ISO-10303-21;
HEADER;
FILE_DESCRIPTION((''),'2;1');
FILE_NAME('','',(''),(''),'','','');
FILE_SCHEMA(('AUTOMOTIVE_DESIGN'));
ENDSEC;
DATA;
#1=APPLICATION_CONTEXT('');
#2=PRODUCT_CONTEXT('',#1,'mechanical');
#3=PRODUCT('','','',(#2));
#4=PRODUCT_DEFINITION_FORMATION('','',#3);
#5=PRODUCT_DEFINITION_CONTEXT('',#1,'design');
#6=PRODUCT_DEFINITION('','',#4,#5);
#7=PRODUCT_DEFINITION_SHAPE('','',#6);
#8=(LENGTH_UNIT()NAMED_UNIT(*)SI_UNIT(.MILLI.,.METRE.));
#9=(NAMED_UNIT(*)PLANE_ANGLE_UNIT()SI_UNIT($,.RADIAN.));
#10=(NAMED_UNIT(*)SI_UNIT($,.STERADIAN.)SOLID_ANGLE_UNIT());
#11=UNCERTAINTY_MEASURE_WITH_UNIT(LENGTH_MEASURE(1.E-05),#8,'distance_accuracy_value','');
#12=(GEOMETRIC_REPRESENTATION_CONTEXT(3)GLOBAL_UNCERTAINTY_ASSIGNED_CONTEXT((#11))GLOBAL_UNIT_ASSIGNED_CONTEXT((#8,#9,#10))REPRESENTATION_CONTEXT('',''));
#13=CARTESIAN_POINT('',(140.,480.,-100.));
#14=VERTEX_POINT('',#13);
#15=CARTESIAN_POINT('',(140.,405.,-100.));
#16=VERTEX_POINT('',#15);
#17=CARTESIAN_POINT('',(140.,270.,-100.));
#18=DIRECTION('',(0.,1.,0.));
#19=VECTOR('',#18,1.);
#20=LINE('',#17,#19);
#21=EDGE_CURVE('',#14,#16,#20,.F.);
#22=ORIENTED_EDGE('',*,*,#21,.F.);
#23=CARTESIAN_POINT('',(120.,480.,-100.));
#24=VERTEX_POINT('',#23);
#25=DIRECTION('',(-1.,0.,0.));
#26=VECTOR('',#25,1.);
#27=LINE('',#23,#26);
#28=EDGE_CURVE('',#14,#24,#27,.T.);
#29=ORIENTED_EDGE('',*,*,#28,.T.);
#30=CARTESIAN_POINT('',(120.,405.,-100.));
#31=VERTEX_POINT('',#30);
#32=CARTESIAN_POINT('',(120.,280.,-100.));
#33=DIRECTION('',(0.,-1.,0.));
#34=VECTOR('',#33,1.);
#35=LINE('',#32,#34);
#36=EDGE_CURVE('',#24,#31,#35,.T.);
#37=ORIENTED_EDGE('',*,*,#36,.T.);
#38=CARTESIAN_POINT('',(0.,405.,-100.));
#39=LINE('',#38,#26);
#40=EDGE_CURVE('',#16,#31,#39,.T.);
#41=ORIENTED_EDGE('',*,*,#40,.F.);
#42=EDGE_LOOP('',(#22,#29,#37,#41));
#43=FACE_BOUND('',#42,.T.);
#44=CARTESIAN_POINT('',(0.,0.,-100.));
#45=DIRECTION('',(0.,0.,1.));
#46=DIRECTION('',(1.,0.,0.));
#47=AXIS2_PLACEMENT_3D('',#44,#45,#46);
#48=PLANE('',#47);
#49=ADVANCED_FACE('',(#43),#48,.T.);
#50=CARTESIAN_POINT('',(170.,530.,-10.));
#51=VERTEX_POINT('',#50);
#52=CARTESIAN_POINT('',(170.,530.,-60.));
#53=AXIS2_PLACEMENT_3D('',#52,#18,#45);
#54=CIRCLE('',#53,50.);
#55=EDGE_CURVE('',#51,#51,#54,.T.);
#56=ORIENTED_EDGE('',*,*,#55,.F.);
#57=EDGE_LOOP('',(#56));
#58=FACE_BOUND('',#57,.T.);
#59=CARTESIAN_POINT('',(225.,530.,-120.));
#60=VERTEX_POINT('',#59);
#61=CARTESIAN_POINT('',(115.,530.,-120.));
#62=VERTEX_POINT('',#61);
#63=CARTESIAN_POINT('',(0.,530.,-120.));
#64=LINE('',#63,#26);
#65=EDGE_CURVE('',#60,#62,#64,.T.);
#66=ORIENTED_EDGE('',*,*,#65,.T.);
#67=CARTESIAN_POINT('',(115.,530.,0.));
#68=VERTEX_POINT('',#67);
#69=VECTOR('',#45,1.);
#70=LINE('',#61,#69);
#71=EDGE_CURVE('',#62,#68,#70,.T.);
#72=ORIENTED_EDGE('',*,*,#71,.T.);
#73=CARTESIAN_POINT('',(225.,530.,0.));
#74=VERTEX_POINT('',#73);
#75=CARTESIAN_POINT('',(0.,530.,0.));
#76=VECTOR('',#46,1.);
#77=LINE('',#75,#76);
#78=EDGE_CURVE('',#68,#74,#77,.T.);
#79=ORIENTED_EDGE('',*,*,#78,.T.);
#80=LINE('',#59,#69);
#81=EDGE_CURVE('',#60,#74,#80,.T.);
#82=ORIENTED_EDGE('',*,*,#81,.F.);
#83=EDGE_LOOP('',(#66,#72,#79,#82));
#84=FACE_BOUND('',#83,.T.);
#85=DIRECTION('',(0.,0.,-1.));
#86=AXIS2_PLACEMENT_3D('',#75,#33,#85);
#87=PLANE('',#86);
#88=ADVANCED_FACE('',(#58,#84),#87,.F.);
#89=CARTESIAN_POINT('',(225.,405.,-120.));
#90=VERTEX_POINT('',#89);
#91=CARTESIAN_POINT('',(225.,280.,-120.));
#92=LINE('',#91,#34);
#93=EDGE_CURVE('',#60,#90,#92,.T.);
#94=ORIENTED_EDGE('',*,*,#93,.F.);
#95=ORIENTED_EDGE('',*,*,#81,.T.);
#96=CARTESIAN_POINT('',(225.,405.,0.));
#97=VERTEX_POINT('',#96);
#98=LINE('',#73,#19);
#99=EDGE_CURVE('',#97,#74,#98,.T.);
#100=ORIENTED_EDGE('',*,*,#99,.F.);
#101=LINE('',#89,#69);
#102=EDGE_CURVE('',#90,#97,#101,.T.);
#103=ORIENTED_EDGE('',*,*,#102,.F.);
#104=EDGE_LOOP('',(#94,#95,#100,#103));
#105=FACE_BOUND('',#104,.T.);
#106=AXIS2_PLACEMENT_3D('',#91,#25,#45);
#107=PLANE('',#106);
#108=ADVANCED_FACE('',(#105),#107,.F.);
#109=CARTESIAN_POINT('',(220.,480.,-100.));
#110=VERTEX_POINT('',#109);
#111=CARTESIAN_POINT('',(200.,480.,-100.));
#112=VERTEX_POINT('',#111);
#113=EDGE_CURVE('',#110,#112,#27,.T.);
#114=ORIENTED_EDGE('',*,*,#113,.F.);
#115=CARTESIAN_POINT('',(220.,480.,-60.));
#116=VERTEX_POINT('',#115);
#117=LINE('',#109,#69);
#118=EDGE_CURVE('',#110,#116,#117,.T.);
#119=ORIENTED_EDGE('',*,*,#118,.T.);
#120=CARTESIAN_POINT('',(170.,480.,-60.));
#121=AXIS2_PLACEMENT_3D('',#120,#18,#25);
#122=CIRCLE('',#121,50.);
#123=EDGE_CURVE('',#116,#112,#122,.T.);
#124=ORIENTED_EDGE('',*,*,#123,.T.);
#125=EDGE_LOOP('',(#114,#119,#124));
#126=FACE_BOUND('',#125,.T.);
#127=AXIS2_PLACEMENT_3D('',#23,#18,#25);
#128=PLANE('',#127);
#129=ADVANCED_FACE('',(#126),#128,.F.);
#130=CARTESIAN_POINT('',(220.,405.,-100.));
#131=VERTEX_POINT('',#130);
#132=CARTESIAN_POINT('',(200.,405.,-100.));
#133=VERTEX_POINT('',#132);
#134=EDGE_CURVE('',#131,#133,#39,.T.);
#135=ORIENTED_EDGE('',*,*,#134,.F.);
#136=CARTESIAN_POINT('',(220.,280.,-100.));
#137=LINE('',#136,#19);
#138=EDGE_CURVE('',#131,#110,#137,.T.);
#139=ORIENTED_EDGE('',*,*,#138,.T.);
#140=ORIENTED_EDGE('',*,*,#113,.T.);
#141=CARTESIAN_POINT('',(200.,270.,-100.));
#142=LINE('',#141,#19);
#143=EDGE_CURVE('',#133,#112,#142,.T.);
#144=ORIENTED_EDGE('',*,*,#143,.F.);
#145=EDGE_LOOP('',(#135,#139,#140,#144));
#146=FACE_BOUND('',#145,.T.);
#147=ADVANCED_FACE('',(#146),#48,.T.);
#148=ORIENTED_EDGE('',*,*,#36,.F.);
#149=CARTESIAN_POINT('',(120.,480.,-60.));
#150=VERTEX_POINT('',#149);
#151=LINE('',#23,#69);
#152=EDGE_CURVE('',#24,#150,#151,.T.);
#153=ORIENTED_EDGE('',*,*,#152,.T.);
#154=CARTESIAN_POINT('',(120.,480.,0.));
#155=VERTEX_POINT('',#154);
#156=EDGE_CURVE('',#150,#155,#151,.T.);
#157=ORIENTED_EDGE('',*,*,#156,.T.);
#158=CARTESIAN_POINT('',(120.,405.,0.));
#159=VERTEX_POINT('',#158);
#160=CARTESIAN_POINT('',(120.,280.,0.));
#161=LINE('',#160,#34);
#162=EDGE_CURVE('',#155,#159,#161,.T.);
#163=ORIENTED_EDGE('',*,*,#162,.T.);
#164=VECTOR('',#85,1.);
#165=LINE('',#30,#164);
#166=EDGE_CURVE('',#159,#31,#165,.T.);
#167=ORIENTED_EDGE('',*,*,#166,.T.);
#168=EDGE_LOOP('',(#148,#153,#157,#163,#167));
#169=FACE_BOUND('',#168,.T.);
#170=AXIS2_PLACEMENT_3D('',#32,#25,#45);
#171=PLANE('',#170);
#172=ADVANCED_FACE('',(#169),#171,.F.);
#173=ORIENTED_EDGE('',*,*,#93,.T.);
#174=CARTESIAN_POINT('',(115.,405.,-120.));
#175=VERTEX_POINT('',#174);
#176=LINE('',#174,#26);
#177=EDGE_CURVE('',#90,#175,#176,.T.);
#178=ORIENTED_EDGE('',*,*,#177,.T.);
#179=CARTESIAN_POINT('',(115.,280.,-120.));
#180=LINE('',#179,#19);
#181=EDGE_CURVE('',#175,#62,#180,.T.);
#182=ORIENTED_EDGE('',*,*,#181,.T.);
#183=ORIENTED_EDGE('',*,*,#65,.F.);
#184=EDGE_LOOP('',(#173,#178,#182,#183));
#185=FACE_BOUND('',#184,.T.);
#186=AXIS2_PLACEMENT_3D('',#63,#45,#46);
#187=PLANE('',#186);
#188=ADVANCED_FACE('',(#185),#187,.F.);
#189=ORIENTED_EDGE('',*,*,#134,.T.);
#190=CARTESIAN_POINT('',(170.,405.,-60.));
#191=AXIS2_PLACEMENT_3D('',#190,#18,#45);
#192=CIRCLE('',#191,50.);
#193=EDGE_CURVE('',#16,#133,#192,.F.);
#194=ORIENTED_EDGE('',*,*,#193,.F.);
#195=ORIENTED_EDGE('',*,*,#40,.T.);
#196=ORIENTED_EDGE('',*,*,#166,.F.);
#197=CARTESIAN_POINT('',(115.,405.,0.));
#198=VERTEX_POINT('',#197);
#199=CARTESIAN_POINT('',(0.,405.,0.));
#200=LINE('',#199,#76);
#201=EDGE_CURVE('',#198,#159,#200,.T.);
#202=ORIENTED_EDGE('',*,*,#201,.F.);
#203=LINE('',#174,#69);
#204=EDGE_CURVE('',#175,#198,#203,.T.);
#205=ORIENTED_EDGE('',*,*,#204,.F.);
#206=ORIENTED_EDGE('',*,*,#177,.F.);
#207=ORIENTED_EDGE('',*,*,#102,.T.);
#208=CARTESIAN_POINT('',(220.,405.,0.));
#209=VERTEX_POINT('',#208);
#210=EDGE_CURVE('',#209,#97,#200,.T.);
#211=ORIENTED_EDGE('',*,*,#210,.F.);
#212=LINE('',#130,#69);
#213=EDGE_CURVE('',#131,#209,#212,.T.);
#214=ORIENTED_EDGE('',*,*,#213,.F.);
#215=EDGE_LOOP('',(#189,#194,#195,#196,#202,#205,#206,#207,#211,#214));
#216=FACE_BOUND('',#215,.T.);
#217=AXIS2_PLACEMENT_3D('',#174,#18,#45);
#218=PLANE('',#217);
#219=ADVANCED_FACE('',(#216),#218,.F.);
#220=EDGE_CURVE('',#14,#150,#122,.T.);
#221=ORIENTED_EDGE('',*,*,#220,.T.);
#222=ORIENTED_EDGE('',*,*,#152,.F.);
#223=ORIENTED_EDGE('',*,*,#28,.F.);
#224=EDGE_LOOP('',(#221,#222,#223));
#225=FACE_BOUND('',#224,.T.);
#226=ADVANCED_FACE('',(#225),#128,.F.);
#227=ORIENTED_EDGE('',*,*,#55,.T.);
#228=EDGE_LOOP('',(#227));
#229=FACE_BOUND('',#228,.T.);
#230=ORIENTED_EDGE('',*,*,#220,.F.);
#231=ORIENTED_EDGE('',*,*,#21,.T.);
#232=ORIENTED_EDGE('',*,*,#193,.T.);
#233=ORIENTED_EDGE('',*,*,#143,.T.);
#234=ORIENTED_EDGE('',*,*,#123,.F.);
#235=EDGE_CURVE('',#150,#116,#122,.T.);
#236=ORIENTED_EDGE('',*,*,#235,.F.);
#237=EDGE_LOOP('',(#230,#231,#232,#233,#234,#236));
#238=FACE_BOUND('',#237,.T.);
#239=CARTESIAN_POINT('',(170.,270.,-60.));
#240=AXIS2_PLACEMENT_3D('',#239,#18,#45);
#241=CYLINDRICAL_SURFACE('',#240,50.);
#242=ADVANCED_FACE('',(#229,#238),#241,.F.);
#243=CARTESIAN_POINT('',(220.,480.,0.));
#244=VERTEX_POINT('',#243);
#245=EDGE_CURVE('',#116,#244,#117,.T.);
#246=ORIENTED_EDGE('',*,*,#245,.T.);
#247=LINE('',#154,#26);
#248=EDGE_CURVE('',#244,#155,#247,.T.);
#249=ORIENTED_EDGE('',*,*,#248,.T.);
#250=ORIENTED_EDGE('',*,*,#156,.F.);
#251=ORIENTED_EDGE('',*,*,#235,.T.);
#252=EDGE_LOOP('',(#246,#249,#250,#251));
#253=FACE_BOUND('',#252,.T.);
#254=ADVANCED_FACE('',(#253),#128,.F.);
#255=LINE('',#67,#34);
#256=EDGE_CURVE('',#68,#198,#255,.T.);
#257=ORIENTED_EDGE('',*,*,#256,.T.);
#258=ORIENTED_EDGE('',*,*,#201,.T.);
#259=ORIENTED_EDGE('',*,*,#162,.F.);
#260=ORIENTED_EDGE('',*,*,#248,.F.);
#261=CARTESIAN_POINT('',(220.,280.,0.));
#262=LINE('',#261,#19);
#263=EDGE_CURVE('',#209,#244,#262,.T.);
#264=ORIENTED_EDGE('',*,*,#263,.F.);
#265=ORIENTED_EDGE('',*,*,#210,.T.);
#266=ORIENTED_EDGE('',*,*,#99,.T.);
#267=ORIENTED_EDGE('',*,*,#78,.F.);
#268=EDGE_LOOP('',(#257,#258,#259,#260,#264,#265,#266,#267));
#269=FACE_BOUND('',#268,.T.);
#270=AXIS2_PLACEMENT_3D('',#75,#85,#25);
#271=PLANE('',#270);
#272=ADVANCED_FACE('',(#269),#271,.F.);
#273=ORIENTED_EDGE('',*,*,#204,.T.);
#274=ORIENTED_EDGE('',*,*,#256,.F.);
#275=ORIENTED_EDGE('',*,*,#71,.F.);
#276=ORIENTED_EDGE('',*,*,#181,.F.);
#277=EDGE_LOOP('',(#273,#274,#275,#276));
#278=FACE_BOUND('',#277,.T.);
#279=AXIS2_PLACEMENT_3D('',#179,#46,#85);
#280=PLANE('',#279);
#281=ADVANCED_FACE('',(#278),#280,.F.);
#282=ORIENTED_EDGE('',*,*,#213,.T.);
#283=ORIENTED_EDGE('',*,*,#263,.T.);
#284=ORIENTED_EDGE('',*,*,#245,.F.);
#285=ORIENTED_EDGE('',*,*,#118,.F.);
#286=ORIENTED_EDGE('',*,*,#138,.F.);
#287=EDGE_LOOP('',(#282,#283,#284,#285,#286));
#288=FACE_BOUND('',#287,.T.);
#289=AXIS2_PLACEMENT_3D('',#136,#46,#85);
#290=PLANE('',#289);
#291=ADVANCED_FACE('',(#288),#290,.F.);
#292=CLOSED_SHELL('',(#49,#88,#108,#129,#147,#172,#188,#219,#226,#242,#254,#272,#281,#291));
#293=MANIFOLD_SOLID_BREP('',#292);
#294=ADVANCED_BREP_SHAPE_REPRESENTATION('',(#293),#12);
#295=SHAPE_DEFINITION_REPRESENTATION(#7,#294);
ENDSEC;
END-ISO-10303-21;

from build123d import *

# Parameters (mm, degrees)
SKETCH1_W                      = 670
SKETCH1_H                      = 120
BOSS_EXTRUDE1_DEPTH            = 530
SKETCH2_W                      = 100
SKETCH2_H                      = 200
SKETCH2_W_2                    = 650
SKETCH2_H_2                    = 250
CUT_EXTRUDE1_DEPTH             = 100
SKETCH3_R                      = 50
CUT_EXTRUDE2_DEPTH             = 260
F_12_0_12_DIAMETER_HOLE2_D     = 12
F_12_0_12_DIAMETER_HOLE2_DEPTH = 30
F_12_0_12_DIAMETER_HOLE2_TIP   = 3.605163714
SKETCH8_W                      = 650
SKETCH8_H                      = 50
BOSS_EXTRUDE2_DEPTH            = 5
SKETCH9_W                      = 10
SKETCH9_H                      = 250
CUT_EXTRUDE3_DEPTH             = 717
CUT_EXTRUDE4_DEPTH             = 5
SKETCH11_W                     = 10
SKETCH11_H                     = 100
BOSS_EXTRUDE3_DEPTH            = 78
BOSS_EXTRUDE3_2_DEPTH          = 78
BOSS_EXTRUDE3_3_DEPTH          = 78
SKETCH12_W                     = 20
SKETCH12_H                     = 30
CUT_EXTRUDE5_DEPTH             = 80
SKETCH15_W                     = 30
SKETCH15_H                     = 23.536156656
SKETCH15_H_2                   = 28.986603691
CUT_EXTRUDE7_DEPTH             = 35
SHELL1_T                       = -3
SKETCH16_W                     = 14
SKETCH16_H                     = 14
CUT_EXTRUDE8_DEPTH             = 35
SKETCH17_W                     = 5.729882812
SKETCH17_H                     = 17.428393554
SKETCH17_W_2                   = 13.369726562
SKETCH17_H_2                   = 3.342431641
BOSS_EXTRUDE4_DEPTH            = 5
SKETCH18_W                     = 670
SKETCH18_H                     = 280
CUT_EXTRUDE10_DEPTH            = 159
CUT_EXTRUDE11_DEPTH            = 863.670273187
CUT_EXTRUDE11_DEPTH_BACK       = 863.670273187
SKETCH19_W                     = 115
SKETCH19_H                     = 250
SKETCH19_W_2                   = 445
CUT_EXTRUDE12_DEPTH            = 589.153891426
CUT_EXTRUDE12_DEPTH_BACK       = 589.153891426
SKETCH20_W                     = 110
SKETCH20_H                     = 125


with BuildPart() as part:
    # Sketch1 → Boss-Extrude1 (new body)
    with BuildSketch(Plane(origin=(0, 0, 0), x_dir=(1, 0, 0), z_dir=(0, 1, 0))):
        with Locations((335, 60)):
            Rectangle(SKETCH1_W, SKETCH1_H)
    extrude(amount=BOSS_EXTRUDE1_DEPTH)

    # Sketch2 → Cut-Extrude1 (cut)
    with BuildSketch(Plane.XY):
        with Locations((60, 380)):
            Rectangle(SKETCH2_W, SKETCH2_H)
        with Locations((170, 380)):
            Rectangle(SKETCH2_W, SKETCH2_H)
        with Locations((280, 380)):
            Rectangle(SKETCH2_W, SKETCH2_H)
        with Locations((390, 380)):
            Rectangle(SKETCH2_W, SKETCH2_H)
        with Locations((500, 380)):
            Rectangle(SKETCH2_W, SKETCH2_H)
        with Locations((610, 380)):
            Rectangle(SKETCH2_W, SKETCH2_H)
        with Locations((335, 135)):
            Rectangle(SKETCH2_W_2, SKETCH2_H_2)
    extrude(amount=-CUT_EXTRUDE1_DEPTH, mode=Mode.SUBTRACT)

    # Sketch3 → Cut-Extrude2 (cut)
    with BuildSketch(Plane(origin=(0, 530, 0), x_dir=(1, 0, 0), z_dir=(0, 1, 0))):
        with Locations(Location((60, 60, 0), (0, 0, 270))):
            Circle(SKETCH3_R)
        with Locations(Location((170, 60, 0), (0, 0, 270))):
            Circle(SKETCH3_R)
        with Locations(Location((280, 60, 0), (0, 0, 270))):
            Circle(SKETCH3_R)
        with Locations(Location((390, 60, 0), (0, 0, 270))):
            Circle(SKETCH3_R)
        with Locations(Location((500, 60, 0), (0, 0, 270))):
            Circle(SKETCH3_R)
        with Locations(Location((610, 60, 0), (0, 0, 270))):
            Circle(SKETCH3_R)
    extrude(amount=-CUT_EXTRUDE2_DEPTH, mode=Mode.SUBTRACT)

    # Ø12.0 (12) Diameter Hole2
    with Locations(Plane(origin=(59.704642413, 270, -102.411697903), x_dir=(0, 0, 1), z_dir=(0, 1, 0))):
        with Locations((0, 0), (-0.195888006, 111.8520513), (0.014838595, 221.167624818), (-0.341843303, 331.364008353), (0.657723149, 441.008646429), (1.288998006, 549.811854685)):
            Hole(F_12_0_12_DIAMETER_HOLE2_D / 2, depth=F_12_0_12_DIAMETER_HOLE2_DEPTH)
            with Locations((0, 0, -(F_12_0_12_DIAMETER_HOLE2_DEPTH + F_12_0_12_DIAMETER_HOLE2_TIP / 2))):  # 118° drill point
                Cone(0, F_12_0_12_DIAMETER_HOLE2_D / 2, F_12_0_12_DIAMETER_HOLE2_TIP, mode=Mode.SUBTRACT)

    # Sketch8 → Boss-Extrude2 (add)
    with BuildSketch(Plane.XY):
        with Locations((335, 305)):
            Rectangle(SKETCH8_W, SKETCH8_H)
    extrude(amount=-BOSS_EXTRUDE2_DEPTH)

    # Sketch9 → Cut-Extrude3 (cut)
    with BuildSketch(Plane(origin=(670, 0, 0), x_dir=(0, 0, -1), z_dir=(1, 0, 0))):
        with Locations((15, 135)):
            Rectangle(SKETCH9_W, SKETCH9_H)
    extrude(amount=-CUT_EXTRUDE3_DEPTH, mode=Mode.SUBTRACT)

    # Sketch10 → Cut-Extrude4 (cut)
    with BuildSketch(Plane(origin=(0, 10, 0), x_dir=(1, 0, 0), z_dir=(0, 1, 0))):
        Polygon((365, 61.943560596), (350, 87.924322709), (320, 87.924322709), (305, 61.943560596), (320, 35.962798482), (350, 35.962798482), align=None)
    extrude(amount=-CUT_EXTRUDE4_DEPTH, mode=Mode.SUBTRACT)

    # Sketch12 → Cut-Extrude5 (cut)
    with BuildSketch(Plane.XY.offset(-100)):
        with Locations((85.198613037, 245)):
            Rectangle(SKETCH12_W, SKETCH12_H)
        with Locations((195.198613037, 245)):
            Rectangle(SKETCH12_W, SKETCH12_H)
        with Locations((305.198613037, 245)):
            Rectangle(SKETCH12_W, SKETCH12_H)
        with Locations((415.198613037, 245)):
            Rectangle(SKETCH12_W, SKETCH12_H)
        with Locations((525.198613037, 245)):
            Rectangle(SKETCH12_W, SKETCH12_H)
        with Locations((635.198613037, 245)):
            Rectangle(SKETCH12_W, SKETCH12_H)
    extrude(amount=-CUT_EXTRUDE5_DEPTH, mode=Mode.SUBTRACT)

    # Sketch17 → Boss-Extrude4 (add)
    # profile 1 of 9: a face of its own
    with BuildSketch(Plane.XY):
        with BuildLine():
            Line((527.508830928, 289.835452458), (527.508830928, 307.263846012))
            Line((527.508830928, 307.263846012), (534.861434459, 307.263846012))
            add(Edge.make_bspline(
                [(534.861434459, 307.263846012), (535.181337774, 307.258256848), (535.803061116, 307.24739446), (536.703508491, 307.139069344), (537.544992916, 306.975202489), (538.325061607, 306.737496792), (539.040841948, 306.426020155), (539.698044515, 306.051894954), (540.290333057, 305.605079277), (540.822348212, 305.090232636), (541.284521701, 304.502523111), (541.692171296, 303.852565801), (542.030284458, 303.129762281), (542.309377095, 302.341316546), (542.5243908, 301.484161689), (542.679660381, 300.560045938), (542.773357357, 299.567500804), (542.783368073, 298.883107022), (542.788518428, 298.530997273)],
                knots=[0, 0, 0, 0, 1.135059408, 2.20595691, 3.214417064, 4.174978569, 5.094187092, 5.980001006, 6.853065862, 7.720814779, 8.600404634, 9.50058483, 10.438414914, 11.426825708, 12.465239141, 13.571113463, 14.750376389, 16, 16, 16, 16], degree=3))
            add(Edge.make_bspline(
                [(542.788518428, 298.530997273), (542.781740751, 298.180151665), (542.768592871, 297.499553336), (542.676885992, 296.511518461), (542.516733301, 295.591080531), (542.296748778, 294.736450427), (542.003051046, 293.953120444), (541.654236167, 293.233205539), (541.233025793, 292.585291498), (540.753136904, 292.000029304), (540.204772188, 291.484681411), (539.587651059, 291.044279297), (538.910779309, 290.668464036), (538.169670382, 290.361903209), (537.364073889, 290.124869172), (536.495133477, 289.954199984), (535.562644449, 289.853487388), (534.920131033, 289.841584621), (534.58911581, 289.835452458)],
                knots=[0, 0, 0, 0, 1.228418252, 2.382983832, 3.470276728, 4.496757894, 5.468023682, 6.394867725, 7.292157164, 8.167372942, 9.039072913, 9.918728341, 10.815246345, 11.744296628, 12.720973084, 13.750736166, 14.841206188, 16, 16, 16, 16], degree=3))
            Line((534.58911581, 289.835452458), (527.508830928, 289.835452458))
        make_face()
        with BuildLine():
            Line((533.238713741, 291.745413395), (534.048208904, 291.745413395))
            add(Edge.make_bspline(
                [(534.048208904, 291.745413395), (534.172894012, 291.749291978), (534.413033311, 291.756761998), (534.758676231, 291.825976613), (535.075745017, 291.938271137), (535.365749176, 292.094802589), (535.623404602, 292.300450923), (535.848862806, 292.551404902), (536.04776914, 292.844737637), (536.217685755, 293.190205032), (536.364284647, 293.596533622), (536.481764702, 294.076367921), (536.592118304, 294.630928744), (536.673672739, 295.265507643), (536.740044562, 295.978448886), (536.788346679, 296.768428292), (536.812018936, 297.636801208), (536.817188964, 298.241258393), (536.819890499, 298.55711002)],
                knots=[0, 0, 0, 0, 0.728710832, 1.403472396, 2.052289494, 2.690292559, 3.321919393, 3.970736491, 4.656696891, 5.388631723, 6.217040872, 7.17856157, 8.275589967, 9.523440737, 10.918935818, 12.463926104, 14.152268318, 16, 16, 16, 16], degree=3))
            add(Edge.make_bspline(
                [(536.819890499, 298.55711002), (536.8171426, 298.871715251), (536.811863063, 299.476166083), (536.7886758, 300.343334385), (536.739579947, 301.133216935), (536.674703848, 301.843934916), (536.589660404, 302.476324031), (536.488366458, 303.031681737), (536.362441588, 303.507627045), (536.222158727, 303.914921549), (536.050140993, 304.256514038), (535.858357073, 304.554097881), (535.62547107, 304.79746827), (535.36991257, 305.004888479), (535.079348843, 305.160875844), (534.761320266, 305.273944358), (534.414185903, 305.34216807), (534.172870641, 305.349893944), (534.048208904, 305.353885075)],
                knots=[0, 0, 0, 0, 1.842836665, 3.540640921, 5.080358154, 6.47765669, 7.719902824, 8.816971715, 9.781579111, 10.601733135, 11.334613876, 12.017393917, 12.666641099, 13.29908421, 13.937911793, 14.587567384, 15.270347425, 16, 16, 16, 16], degree=3))
            Line((534.048208904, 305.353885075), (533.238713741, 305.353885075))
            Line((533.238713741, 305.353885075), (533.238713741, 291.745413395))
        make_face(mode=Mode.SUBTRACT)
    # profile 2 of 9: a face of its own
    with BuildSketch(Plane.XY):
        with Locations((547.563420772, 298.549649235)):
            Rectangle(SKETCH17_W, SKETCH17_H)
    # profile 3 of 9: a face of its own
    with BuildSketch(Plane.XY):
        Polygon((564.514324092, 307.263846012), (564.514324092, 305.115139958), (558.545696163, 305.115139958), (558.545696163, 299.862747379), (563.559343624, 299.862747379), (563.559343624, 297.714041325), (558.545696163, 297.714041325), (558.545696163, 289.835452458), (552.81581335, 289.835452458), (552.81581335, 307.263846012), align=None)
    # profile 4 of 9: a face of its own
    with BuildSketch(Plane.XY):
        Polygon((577.645305538, 307.263846012), (577.645305538, 305.115139958), (571.676677608, 305.115139958), (571.676677608, 299.862747379), (576.690325069, 299.862747379), (576.690325069, 297.714041325), (571.676677608, 297.714041325), (571.676677608, 289.835452458), (565.946794795, 289.835452458), (565.946794795, 307.263846012), align=None)
    # profile 5 of 9: a face of its own
    with BuildSketch(Plane.XY):
        with Locations((584.330168819, 287.448001286)):
            Rectangle(SKETCH17_W_2, SKETCH17_H_2)
    # profile 6 of 9: a face of its own
    with BuildSketch(Plane.XY):
        with BuildLine():
            Line((605.578484249, 307.263846012), (605.578484249, 295.602639195))
            add(Edge.make_bspline(
                [(605.578484249, 295.602639195), (605.574209777, 295.35989389), (605.565919345, 294.889083964), (605.480877158, 294.20653885), (605.349958188, 293.569747554), (605.15926554, 292.978838165), (604.911867049, 292.436847071), (604.616163877, 291.936663973), (604.260702644, 291.487723021), (603.847299908, 291.08966617), (603.386881991, 290.731670113), (602.867295001, 290.425440037), (602.293741958, 290.168488385), (601.66690529, 289.960990771), (600.988052682, 289.797299786), (600.254912883, 289.679078851), (599.467035781, 289.60781007), (598.923618241, 289.60048219), (598.643684673, 289.59670734)],
                knots=[0, 0, 0, 0, 1.108173197, 2.149326602, 3.136215123, 4.073726706, 4.978516626, 5.852185058, 6.72141202, 7.584905625, 8.467554395, 9.379216169, 10.332422268, 11.332766067, 12.390653242, 13.518530507, 14.721707419, 16, 16, 16, 16], degree=3))
            add(Edge.make_bspline(
                [(598.643684673, 289.59670734), (598.373688491, 289.600411437), (597.851346557, 289.607577482), (597.093280473, 289.679448684), (596.387523889, 289.797736542), (595.733050135, 289.960122315), (595.130189942, 290.169220301), (594.579048171, 290.42623041), (594.078350789, 290.732835498), (593.633858028, 291.090104794), (593.234289459, 291.486851767), (592.899913678, 291.940746827), (592.609043638, 292.435866034), (592.375223767, 292.980322997), (592.191754821, 293.570441519), (592.063541006, 294.20666921), (591.983676196, 294.889343196), (591.974661767, 295.359932437), (591.970012569, 295.602639195)],
                knots=[0, 0, 0, 0, 1.258901956, 2.435505865, 3.547148904, 4.59359074, 5.576649289, 6.5183682, 7.424469602, 8.307507093, 9.172751023, 10.042627298, 10.928839176, 11.845659241, 12.799442865, 13.80597989, 14.868432463, 16, 16, 16, 16], degree=3))
            Line((591.970012569, 295.602639195), (591.970012569, 307.263846012))
            Line((591.970012569, 307.263846012), (597.699895381, 307.263846012))
            Line((597.699895381, 307.263846012), (597.699895381, 295.457153889))
            add(Edge.make_bspline(
                [(597.699895381, 295.457153889), (597.700816195, 295.287996189), (597.702584578, 294.963135903), (597.729908723, 294.499051493), (597.768241004, 294.079064133), (597.828226169, 293.705517832), (597.90066041, 293.377063412), (597.989882091, 293.09281535), (598.094998068, 292.852496478), (598.225239063, 292.654232043), (598.380826623, 292.495135011), (598.55368342, 292.353231761), (598.757556996, 292.238543846), (598.987648905, 292.146224908), (599.243380948, 292.070549638), (599.526120553, 292.020376099), (599.83553351, 291.990763905), (600.049971942, 291.986424568), (600.161954402, 291.984158512)],
                knots=[0, 0, 0, 0, 1.622370975, 3.115695595, 4.458049099, 5.666011203, 6.742434742, 7.681714947, 8.519814998, 9.250928664, 9.942747364, 10.646898194, 11.389596108, 12.175933929, 13.021386247, 13.943159715, 14.925891993, 16, 16, 16, 16], degree=3))
            add(Edge.make_bspline(
                [(600.161954402, 291.984158512), (600.283927219, 291.987190593), (600.521124756, 291.993087005), (600.86597014, 292.03390861), (601.187714881, 292.103380086), (601.484890424, 292.205377303), (601.758665297, 292.332852529), (602.012761516, 292.484567923), (602.236391413, 292.674631152), (602.439076761, 292.888441291), (602.620738276, 293.128529789), (602.771757722, 293.399928575), (602.905501548, 293.697121508), (603.005823683, 294.025060118), (603.089837826, 294.379999499), (603.146989706, 294.763086929), (603.186210275, 295.174074524), (603.189394751, 295.457053988), (603.191033077, 295.602639195)],
                knots=[0, 0, 0, 0, 1.083870311, 2.107775948, 3.08105344, 4.003637981, 4.893545291, 5.761570557, 6.624657808, 7.49233129, 8.376387281, 9.291996285, 10.246843261, 11.267344133, 12.334180325, 13.486053461, 14.706643157, 16, 16, 16, 16], degree=3))
            Line((603.191033077, 295.602639195), (603.191033077, 307.263846012))
            Line((603.191033077, 307.263846012), (605.578484249, 307.263846012))
        make_face()
    # profile 7 of 9: a face of its own
    with BuildSketch(Plane.XY):
        with BuildLine():
            Line((619.731593227, 302.015183827), (616.739818477, 301.526502415))
            add(Edge.make_bspline(
                [(616.739818477, 301.526502415), (616.748849224, 301.670726223), (616.765660669, 301.939210177), (616.78429066, 302.312269209), (616.796668381, 302.625642376), (616.798628236, 302.814722915), (616.799504756, 302.899286839)],
                knots=[0, 0, 0, 0, 1.261802504, 2.348944521, 3.261585937, 4, 4, 4, 4], degree=3))
            add(Edge.make_bspline(
                [(616.799504756, 302.899286839), (616.798306068, 303.007660677), (616.795968139, 303.219033721), (616.750451916, 303.523894877), (616.694806916, 303.811547356), (616.604352699, 304.076787391), (616.488181329, 304.320314265), (616.348943917, 304.543955606), (616.184187178, 304.745078709), (615.995833421, 304.928129987), (615.778009957, 305.083200131), (615.536269472, 305.218702836), (615.269765326, 305.333844758), (614.978065514, 305.431346685), (614.660683072, 305.504624438), (614.319025281, 305.556776695), (613.952471696, 305.585673441), (613.699597795, 305.590260771), (613.568984889, 305.592630192)],
                knots=[0, 0, 0, 0, 1.079280541, 2.105035848, 3.067950317, 3.99715044, 4.889989748, 5.753421302, 6.617030865, 7.476358039, 8.364190572, 9.274590025, 10.235106994, 11.254473582, 12.337095886, 13.478601727, 14.697662529, 16, 16, 16, 16], degree=3))
            add(Edge.make_bspline(
                [(613.568984889, 305.592630192), (613.391954632, 305.58912286), (613.059112606, 305.582528579), (612.595688488, 305.495339748), (612.198743126, 305.361419257), (611.87165349, 305.163811893), (611.613188167, 304.909795747), (611.433841092, 304.593316589), (611.323009072, 304.224665915), (611.313400221, 303.959558324), (611.308367061, 303.820693775)],
                knots=[0, 0, 0, 0, 1.294917039, 2.43462794, 3.440028966, 4.347597256, 5.210608309, 6.06356377, 6.985685997, 8, 8, 8, 8], degree=3))
            add(Edge.make_bspline(
                [(611.308367061, 303.820693775), (611.317562032, 303.705133219), (611.336106628, 303.472068433), (611.47315858, 303.132808312), (611.695999602, 302.811560885), (612.009295906, 302.510664216), (612.404107796, 302.221967273), (612.884407504, 301.948533431), (613.450813789, 301.688189695), (613.862519081, 301.536023727), (614.080048656, 301.455624958)],
                knots=[0, 0, 0, 0, 0.716839541, 1.445735977, 2.240793036, 3.131329288, 4.131129903, 5.273471266, 6.559404876, 8, 8, 8, 8], degree=3))
            add(Edge.make_bspline(
                [(614.080048656, 301.455624958), (614.335934702, 301.364918412), (614.834564244, 301.188164095), (615.547657928, 300.88707802), (616.213068388, 300.5749594), (616.829579094, 300.246613346), (617.397833174, 299.90520698), (617.914851624, 299.544556457), (618.386199073, 299.173962102), (618.807001026, 298.783874588), (619.177995113, 298.378100064), (619.4958685, 297.952745357), (619.771807525, 297.51723103), (619.991113975, 297.061458502), (620.169645242, 296.594624218), (620.292698657, 296.11024444), (620.364288243, 295.609761088), (620.37516617, 295.270864226), (620.380681514, 295.099036213)],
                knots=[0, 0, 0, 0, 1.359488612, 2.649152603, 3.874964776, 5.039588756, 6.146130126, 7.193090393, 8.194917302, 9.146793662, 10.063845301, 10.944476293, 11.803344532, 12.641736646, 13.473440096, 14.302714936, 15.139439897, 16, 16, 16, 16], degree=3))
            add(Edge.make_bspline(
                [(620.380681514, 295.099036213), (620.374476075, 294.902306495), (620.362285176, 294.515820995), (620.280160209, 293.948630617), (620.138011896, 293.409496554), (619.938489338, 292.895972278), (619.681049879, 292.411946655), (619.366518754, 291.954381076), (618.996510229, 291.525099427), (618.5710008, 291.128381035), (618.102222518, 290.765302239), (617.587803957, 290.450854345), (617.034458515, 290.187092261), (616.444107988, 289.968993032), (615.81453624, 289.801373099), (615.145337453, 289.685291013), (614.438790193, 289.606619894), (613.954683001, 289.600062276), (613.70700941, 289.59670734)],
                knots=[0, 0, 0, 0, 0.972121714, 1.909782367, 2.824924061, 3.721832975, 4.62620438, 5.527836938, 6.46026819, 7.421000932, 8.398101015, 9.385579713, 10.394244048, 11.422703992, 12.491421888, 13.608778581, 14.776629625, 16, 16, 16, 16], degree=3))
            add(Edge.make_bspline(
                [(613.70700941, 289.59670734), (613.445745367, 289.599650312), (612.939893069, 289.605348413), (612.207608113, 289.66709241), (611.525297432, 289.760984454), (610.893395078, 289.899706116), (610.309273131, 290.072394336), (609.776099392, 290.288320955), (609.295310255, 290.547303481), (608.863217672, 290.843007892), (608.478306623, 291.175775461), (608.148120946, 291.551766865), (607.86942369, 291.967163224), (607.639947144, 292.421521488), (607.466477665, 292.917583541), (607.339164663, 293.449829748), (607.264537999, 294.021332449), (607.254747521, 294.414908557), (607.249700069, 294.617815586)],
                knots=[0, 0, 0, 0, 1.342201143, 2.598733168, 3.773451092, 4.878874364, 5.91991243, 6.900006476, 7.829142054, 8.72062616, 9.585588575, 10.436728592, 11.283829734, 12.149664931, 13.044964919, 13.977937424, 14.957531465, 16, 16, 16, 16], degree=3))
            add(Edge.make_bspline(
                [(607.249700069, 294.617815586), (607.250803815, 294.692425759), (607.253213998, 294.855347393), (607.260452266, 295.122772538), (607.275636683, 295.433682216), (607.29037174, 295.656130545), (607.298195171, 295.774237248)],
                knots=[0, 0, 0, 0, 0.773500207, 1.689044709, 2.77302154, 4, 4, 4, 4], degree=3))
            Line((607.298195171, 295.774237248), (610.36457777, 296.337526509))
            add(Edge.make_bspline(
                [(610.36457777, 296.337526509), (610.326952988, 296.136337493), (610.255606535, 295.754830366), (610.178678473, 295.21219969), (610.124206629, 294.733311493), (610.11767002, 294.435147371), (610.114641475, 294.297001835)],
                knots=[0, 0, 0, 0, 1.192988372, 2.262218769, 3.194850416, 4, 4, 4, 4], degree=3))
            add(Edge.make_bspline(
                [(610.114641475, 294.297001835), (610.116191817, 294.183708768), (610.119182568, 293.965156219), (610.159053378, 293.648552813), (610.215988606, 293.352999663), (610.302906772, 293.079707227), (610.411206928, 292.826307836), (610.544682453, 292.59538211), (610.704385489, 292.386485019), (610.887496571, 292.200099922), (611.094689168, 292.033628705), (611.327456494, 291.892756696), (611.58347653, 291.771733922), (611.864681562, 291.677479524), (612.167961721, 291.596080628), (612.497219749, 291.548235723), (612.849461228, 291.512043782), (613.092629543, 291.508500084), (613.218327999, 291.506668278)],
                knots=[0, 0, 0, 0, 1.135776692, 2.191015738, 3.19649269, 4.151244236, 5.061952528, 5.956281389, 6.819534407, 7.692823504, 8.571441916, 9.478554956, 10.416037156, 11.406231466, 12.450054172, 13.561596327, 14.739541482, 16, 16, 16, 16], degree=3))
            add(Edge.make_bspline(
                [(613.218327999, 291.506668278), (613.423996012, 291.510791273), (613.810619321, 291.518541853), (614.349272542, 291.616708407), (614.810575885, 291.768742445), (615.189785268, 291.991387532), (615.490778961, 292.278756613), (615.698005174, 292.637320004), (615.824813318, 293.05638326), (615.837728413, 293.355975238), (615.844524288, 293.513619419)],
                knots=[0, 0, 0, 0, 1.308765556, 2.460272085, 3.475015317, 4.388076298, 5.239673503, 6.095681635, 6.997954785, 8, 8, 8, 8], degree=3))
            add(Edge.make_bspline(
                [(615.844524288, 293.513619419), (615.833808824, 293.638242951), (615.811807312, 293.894126055), (615.644884004, 294.264515838), (615.382382362, 294.620631473), (615.016807277, 294.962984909), (614.551376589, 295.293471235), (613.986957743, 295.616730224), (613.322148235, 295.933112033), (612.83677959, 296.119639164), (612.580430889, 296.21815395)],
                knots=[0, 0, 0, 0, 0.667930748, 1.371427933, 2.146459016, 3.034714139, 4.04893387, 5.207327294, 6.525042705, 8, 8, 8, 8], degree=3))
            add(Edge.make_bspline(
                [(612.580430889, 296.21815395), (612.374354345, 296.29679374), (611.970646869, 296.450850434), (611.394079385, 296.713586304), (610.853066711, 296.987016804), (610.357486361, 297.288235735), (609.896382561, 297.599610528), (609.477036946, 297.932256792), (609.09841673, 298.284556341), (608.758710772, 298.653375077), (608.457302107, 299.038989264), (608.199448649, 299.444659231), (607.977533299, 299.866789834), (607.798609588, 300.308107488), (607.65975715, 300.767821241), (607.559616231, 301.244439392), (607.497905054, 301.739995674), (607.491630423, 302.075933546), (607.488445186, 302.246468159)],
                knots=[0, 0, 0, 0, 1.249558333, 2.447906163, 3.58867143, 4.682264114, 5.731748367, 6.739728761, 7.711906036, 8.659384707, 9.578321416, 10.481344598, 11.379544271, 12.277135726, 13.175418307, 14.097160112, 15.034047388, 16, 16, 16, 16], degree=3))
            add(Edge.make_bspline(
                [(607.488445186, 302.246468159), (607.49282555, 302.439538736), (607.501402184, 302.817565692), (607.587451154, 303.36980586), (607.719291893, 303.894921371), (607.910558542, 304.389343064), (608.156192894, 304.852853762), (608.453187669, 305.288766511), (608.804241719, 305.697593471), (609.213503754, 306.066686531), (609.657214714, 306.407618241), (610.14376173, 306.697651931), (610.658716537, 306.950861947), (611.210636666, 307.148827868), (611.791820619, 307.313252612), (612.408080529, 307.421140415), (613.056315391, 307.490701612), (613.499160755, 307.498567824), (613.725661373, 307.502591129)],
                knots=[0, 0, 0, 0, 1.01033566, 1.978209831, 2.919499157, 3.840961976, 4.746855014, 5.660740114, 6.597989116, 7.56120833, 8.541877795, 9.523498025, 10.522416858, 11.542172371, 12.589598349, 13.681636521, 14.814234488, 16, 16, 16, 16], degree=3))
            add(Edge.make_bspline(
                [(613.725661373, 307.502591129), (613.968269855, 307.498219033), (614.438190994, 307.489750488), (615.120391152, 307.426787419), (615.755073228, 307.319142339), (616.345153155, 307.171557286), (616.887304575, 306.977590666), (617.384933999, 306.742393454), (617.834452216, 306.46201507), (618.236961315, 306.139451502), (618.593086714, 305.773322851), (618.897467704, 305.361641069), (619.158701245, 304.909408454), (619.366684143, 304.412232174), (619.529870326, 303.873247147), (619.649133834, 303.29158184), (619.720420497, 302.667301443), (619.72779778, 302.236712324), (619.731593227, 302.015183827)],
                knots=[0, 0, 0, 0, 1.248314423, 2.417925914, 3.521398822, 4.558068205, 5.543720209, 6.479599284, 7.385061127, 8.263440163, 9.127722873, 10.00561236, 10.891325273, 11.808802823, 12.772251995, 13.784947978, 14.860405143, 16, 16, 16, 16], degree=3))
        make_face()
    # profile 8 of 9: a face of its own
    with BuildSketch(Plane.XY):
        Polygon((633.989153194, 307.263846012), (633.989153194, 305.115139958), (628.020525264, 305.115139958), (628.020525264, 300.340237614), (633.034172725, 300.340237614), (633.034172725, 298.191531559), (628.020525264, 298.191531559), (628.020525264, 291.984158512), (634.944133663, 291.984158512), (634.944133663, 289.835452458), (622.290642452, 289.835452458), (622.290642452, 307.263846012), align=None)
    # profile 9 of 9: a face of its own
    with BuildSketch(Plane.XY):
        with BuildLine():
            Line((636.376604366, 289.835452458), (636.376604366, 307.263846012))
            Line((636.376604366, 307.263846012), (643.990335369, 307.263846012))
            add(Edge.make_bspline(
                [(643.990335369, 307.263846012), (644.237946498, 307.261150834), (644.721600887, 307.25588639), (645.426490561, 307.189203683), (646.094808274, 307.090496236), (646.724915796, 306.949857504), (647.317873659, 306.767252686), (647.871119087, 306.542146), (648.390701058, 306.282329135), (648.864494846, 305.976472528), (649.295093616, 305.642889252), (649.669668547, 305.279483604), (649.990389523, 304.894749072), (650.250664962, 304.483256345), (650.454275633, 304.048690948), (650.59581384, 303.587791605), (650.684089268, 303.104102537), (650.695510601, 302.772834174), (650.701311397, 302.604585835)],
                knots=[0, 0, 0, 0, 1.303269877, 2.545653735, 3.724355284, 4.8584284, 5.941462088, 6.987020715, 8.000098032, 8.995332524, 9.951400474, 10.863507538, 11.737823931, 12.582415999, 13.420128714, 14.25671499, 15.114600608, 16, 16, 16, 16], degree=3))
            add(Edge.make_bspline(
                [(650.701311397, 302.604585835), (650.698282873, 302.472674957), (650.692382063, 302.215658276), (650.651041486, 301.838684287), (650.580643818, 301.480313933), (650.481036683, 301.139915259), (650.347814833, 300.820175594), (650.191279492, 300.517863507), (650.009772227, 300.230553342), (649.788675198, 299.970497982), (649.548268341, 299.722842359), (649.274558803, 299.497116911), (648.974487035, 299.288655528), (648.642526299, 299.104010513), (648.287619671, 298.928055749), (647.899038177, 298.784921972), (647.486819978, 298.644749395), (647.19793098, 298.577036306), (647.049257183, 298.54218845)],
                knots=[0, 0, 0, 0, 1.057156483, 2.059775939, 3.035078039, 3.981068617, 4.897189472, 5.80650904, 6.70770952, 7.613691521, 8.536886357, 9.470937334, 10.45233069, 11.461024139, 12.51295332, 13.623444893, 14.776929983, 16, 16, 16, 16], degree=3))
            add(Edge.make_bspline(
                [(647.049257183, 298.54218845), (647.19164695, 298.499279419), (647.467865022, 298.416041346), (647.856360945, 298.265600017), (648.211652989, 298.111536308), (648.524185739, 297.936781388), (648.807636894, 297.762122504), (649.047122259, 297.564301324), (649.255235567, 297.361673563), (649.425188343, 297.135464734), (649.570253643, 296.882344437), (649.694827156, 296.586596707), (649.815179167, 296.247423665), (649.917667348, 295.859098311), (650.004750555, 295.423699276), (650.088222437, 294.944027189), (650.153853601, 294.416024546), (650.187587341, 294.048412906), (650.2051692, 293.856815525)],
                knots=[0, 0, 0, 0, 1.149282524, 2.229462177, 3.219229774, 4.139917433, 4.995948464, 5.788695735, 6.536448429, 7.236319808, 7.968460079, 8.78645307, 9.713791991, 10.749194692, 11.887975363, 13.146018663, 14.512518948, 16, 16, 16, 16], degree=3))
            add(Edge.make_bspline(
                [(650.2051692, 293.856815525), (650.225980287, 293.627849833), (650.265975604, 293.187817268), (650.348933081, 292.554613589), (650.44386163, 291.974357025), (650.555874504, 291.44528724), (650.681301216, 290.967898855), (650.821280597, 290.540469593), (650.979920039, 290.165788217), (651.10484481, 289.941461656), (651.163880062, 289.835452458)],
                knots=[0, 0, 0, 0, 1.324580516, 2.545615266, 3.678710841, 4.711533017, 5.660403917, 6.521349952, 7.301239649, 8, 8, 8, 8], degree=3))
            Line((651.163880062, 289.835452458), (645.213904094, 289.835452458))
            add(Edge.make_bspline(
                [(645.213904094, 289.835452458), (645.12229736, 290.069847279), (644.935171241, 290.548648246), (644.7595281, 291.319414791), (644.64846922, 292.142514735), (644.635117598, 292.70994511), (644.628232479, 293.002555653)],
                knots=[0, 0, 0, 0, 0.930410518, 1.900560147, 2.917368081, 4, 4, 4, 4], degree=3))
            Line((644.628232479, 293.002555653), (644.605850124, 294.002300831))
            Line((644.605850124, 294.002300831), (644.579737377, 295.266903874))
            add(Edge.make_bspline(
                [(644.579737377, 295.266903874), (644.573694669, 295.477395004), (644.562357007, 295.872330118), (644.469348432, 296.426164013), (644.30178735, 296.894645884), (644.073222546, 297.287223005), (643.766741442, 297.590613479), (643.39104803, 297.804152917), (642.950456912, 297.93396284), (642.634664848, 297.946292392), (642.468335247, 297.952786442)],
                knots=[0, 0, 0, 0, 1.295300309, 2.430314163, 3.439929415, 4.342995669, 5.203512789, 6.060756153, 6.978588463, 8, 8, 8, 8], degree=3))
            Line((642.468335247, 297.952786442), (642.106487178, 297.952786442))
            Line((642.106487178, 297.952786442), (642.106487178, 289.835452458))
            Line((642.106487178, 289.835452458), (636.376604366, 289.835452458))
        make_face()
        with BuildLine():
            Line((642.106487178, 299.862747379), (642.617550945, 299.862747379))
            add(Edge.make_bspline(
                [(642.617550945, 299.862747379), (642.722054451, 299.865172716), (642.925280724, 299.869889229), (643.220054897, 299.898289891), (643.494111408, 299.951809873), (643.749840966, 300.021017819), (643.984372137, 300.114851792), (644.200147241, 300.225818296), (644.391160406, 300.362685327), (644.565327067, 300.516342321), (644.718148635, 300.691986294), (644.850351299, 300.889034217), (644.961199162, 301.106225057), (645.056078491, 301.342818683), (645.125883912, 301.600830857), (645.173262731, 301.879472914), (645.203404658, 302.177423605), (645.207875435, 302.383174491), (645.210173702, 302.488943669)],
                knots=[0, 0, 0, 0, 1.184986479, 2.304423995, 3.352332712, 4.347714965, 5.303263624, 6.211353909, 7.091434645, 7.960150225, 8.839440182, 9.723126897, 10.64371617, 11.599264829, 12.608232147, 13.667459739, 14.800924404, 16, 16, 16, 16], degree=3))
            add(Edge.make_bspline(
                [(645.210173702, 302.488943669), (645.207875435, 302.594712847), (645.203404658, 302.800463732), (645.173262731, 303.098414423), (645.125883912, 303.37705648), (645.056078491, 303.635068654), (644.961199162, 303.87166228), (644.850351299, 304.08885312), (644.718148635, 304.285901043), (644.565327067, 304.461545017), (644.391160406, 304.61520201), (644.200147241, 304.752069041), (643.984372137, 304.863035546), (643.749840966, 304.956869518), (643.494111408, 305.026077464), (643.220054897, 305.079597446), (642.925280724, 305.107998108), (642.722054451, 305.112714621), (642.617550945, 305.115139958)],
                knots=[0, 0, 0, 0, 1.199075596, 2.332540261, 3.391767853, 4.400735171, 5.35628383, 6.276873103, 7.160559818, 8.039849775, 8.908565355, 9.788646091, 10.696736376, 11.652285035, 12.647667288, 13.695576005, 14.815013521, 16, 16, 16, 16], degree=3))
            Line((642.617550945, 305.115139958), (642.106487178, 305.115139958))
            Line((642.106487178, 305.115139958), (642.106487178, 299.862747379))
        make_face(mode=Mode.SUBTRACT)
    extrude(amount=BOSS_EXTRUDE4_DEPTH)


with BuildPart() as body_2:
    # Sketch11 → Boss-Extrude3 (new body)
    with BuildSketch(Plane.XY.offset(-100)):
        with Locations((255, 60)):
            Rectangle(SKETCH11_W, SKETCH11_H)
    extrude(amount=BOSS_EXTRUDE3_DEPTH)


with BuildPart() as body_3:
    # Sketch11 → Boss-Extrude3 2 (new body)
    with BuildSketch(Plane.XY.offset(-100)):
        with Locations((415, 60)):
            Rectangle(SKETCH11_W, SKETCH11_H)
    extrude(amount=BOSS_EXTRUDE3_2_DEPTH)


with BuildPart() as body_4:
    # Sketch11 → Boss-Extrude3 3 (new body)
    with BuildSketch(Plane.XY.offset(-100)):
        Polygon((25, 198.45686471), (325, 145.558770497), (325, 122.01775856), (345, 122.01775856), (345, 145.558770497), (645, 198.45686471), align=None)
    extrude(amount=BOSS_EXTRUDE3_3_DEPTH)

    # Sketch15 → Cut-Extrude7 (cut)
    with BuildSketch(Plane(origin=(345, 0, 0), x_dir=(0, 0, -1), z_dir=(1, 0, 0))):
        with Locations((35, 133.231921672)):
            Rectangle(SKETCH15_W, SKETCH15_H)
        with Locations((85, 130.506698154)):
            Rectangle(SKETCH15_W, SKETCH15_H_2)
    extrude(amount=-CUT_EXTRUDE7_DEPTH, mode=Mode.SUBTRACT)

    # Shell1
    shell1_openings = [body_4.faces().sort_by_distance(p)[0] for p in [
        (335, 198.45686471, -61),
    ]]
    offset(amount=SHELL1_T, openings=shell1_openings, kind=Kind.INTERSECTION)

    # Sketch16 → Cut-Extrude8 (cut)
    with BuildSketch(Plane.XZ.offset(-122.01775856)):
        with Locations((335, -60)):
            Rectangle(SKETCH16_W, SKETCH16_H)
    extrude(amount=-CUT_EXTRUDE8_DEPTH, mode=Mode.SUBTRACT)


with BuildPart() as cut_extrude10_tool:
    # Sketch18 → Cut-Extrude10 (new body)
    with BuildSketch(Plane.XY):
        with Locations((335, 140)):
            Rectangle(SKETCH18_W, SKETCH18_H)
    extrude(amount=-CUT_EXTRUDE10_DEPTH)


with BuildPart() as part_1:
    add(part.part)

    # Cut-Extrude10: cut by cut_extrude10_tool
    add(cut_extrude10_tool.part, mode=Mode.SUBTRACT)

    # Sketch19 → Cut-Extrude11 (cut, two sides: drawn at the far end of the back side and taken through both)
    with BuildSketch(Plane.XY.offset(-CUT_EXTRUDE11_DEPTH_BACK)):
        with Locations((57.5, 405)):
            Rectangle(SKETCH19_W, SKETCH19_H)
        with Locations((447.5, 405)):
            Rectangle(SKETCH19_W_2, SKETCH19_H)
    extrude(amount=CUT_EXTRUDE11_DEPTH + CUT_EXTRUDE11_DEPTH_BACK, mode=Mode.SUBTRACT)

    # Sketch20 → Cut-Extrude12 (cut, two sides: drawn at the far end of the back side and taken through both)
    with BuildSketch(Plane.XY.offset(-CUT_EXTRUDE12_DEPTH_BACK)):
        with Locations((170, 342.5)):
            Rectangle(SKETCH20_W, SKETCH20_H)
    extrude(amount=CUT_EXTRUDE12_DEPTH + CUT_EXTRUDE12_DEPTH_BACK, mode=Mode.SUBTRACT)


with BuildPart() as body_2_1:
    add(body_2.part)

    # Cut-Extrude10: cut by cut_extrude10_tool
    add(cut_extrude10_tool.part, mode=Mode.SUBTRACT)


with BuildPart() as body_3_1:
    add(body_3.part)

    # Cut-Extrude10: cut by cut_extrude10_tool
    add(cut_extrude10_tool.part, mode=Mode.SUBTRACT)


with BuildPart() as body_4_1:
    add(body_4.part)

    # Cut-Extrude10: cut by cut_extrude10_tool
    add(cut_extrude10_tool.part, mode=Mode.SUBTRACT)


solid = part_1.part
